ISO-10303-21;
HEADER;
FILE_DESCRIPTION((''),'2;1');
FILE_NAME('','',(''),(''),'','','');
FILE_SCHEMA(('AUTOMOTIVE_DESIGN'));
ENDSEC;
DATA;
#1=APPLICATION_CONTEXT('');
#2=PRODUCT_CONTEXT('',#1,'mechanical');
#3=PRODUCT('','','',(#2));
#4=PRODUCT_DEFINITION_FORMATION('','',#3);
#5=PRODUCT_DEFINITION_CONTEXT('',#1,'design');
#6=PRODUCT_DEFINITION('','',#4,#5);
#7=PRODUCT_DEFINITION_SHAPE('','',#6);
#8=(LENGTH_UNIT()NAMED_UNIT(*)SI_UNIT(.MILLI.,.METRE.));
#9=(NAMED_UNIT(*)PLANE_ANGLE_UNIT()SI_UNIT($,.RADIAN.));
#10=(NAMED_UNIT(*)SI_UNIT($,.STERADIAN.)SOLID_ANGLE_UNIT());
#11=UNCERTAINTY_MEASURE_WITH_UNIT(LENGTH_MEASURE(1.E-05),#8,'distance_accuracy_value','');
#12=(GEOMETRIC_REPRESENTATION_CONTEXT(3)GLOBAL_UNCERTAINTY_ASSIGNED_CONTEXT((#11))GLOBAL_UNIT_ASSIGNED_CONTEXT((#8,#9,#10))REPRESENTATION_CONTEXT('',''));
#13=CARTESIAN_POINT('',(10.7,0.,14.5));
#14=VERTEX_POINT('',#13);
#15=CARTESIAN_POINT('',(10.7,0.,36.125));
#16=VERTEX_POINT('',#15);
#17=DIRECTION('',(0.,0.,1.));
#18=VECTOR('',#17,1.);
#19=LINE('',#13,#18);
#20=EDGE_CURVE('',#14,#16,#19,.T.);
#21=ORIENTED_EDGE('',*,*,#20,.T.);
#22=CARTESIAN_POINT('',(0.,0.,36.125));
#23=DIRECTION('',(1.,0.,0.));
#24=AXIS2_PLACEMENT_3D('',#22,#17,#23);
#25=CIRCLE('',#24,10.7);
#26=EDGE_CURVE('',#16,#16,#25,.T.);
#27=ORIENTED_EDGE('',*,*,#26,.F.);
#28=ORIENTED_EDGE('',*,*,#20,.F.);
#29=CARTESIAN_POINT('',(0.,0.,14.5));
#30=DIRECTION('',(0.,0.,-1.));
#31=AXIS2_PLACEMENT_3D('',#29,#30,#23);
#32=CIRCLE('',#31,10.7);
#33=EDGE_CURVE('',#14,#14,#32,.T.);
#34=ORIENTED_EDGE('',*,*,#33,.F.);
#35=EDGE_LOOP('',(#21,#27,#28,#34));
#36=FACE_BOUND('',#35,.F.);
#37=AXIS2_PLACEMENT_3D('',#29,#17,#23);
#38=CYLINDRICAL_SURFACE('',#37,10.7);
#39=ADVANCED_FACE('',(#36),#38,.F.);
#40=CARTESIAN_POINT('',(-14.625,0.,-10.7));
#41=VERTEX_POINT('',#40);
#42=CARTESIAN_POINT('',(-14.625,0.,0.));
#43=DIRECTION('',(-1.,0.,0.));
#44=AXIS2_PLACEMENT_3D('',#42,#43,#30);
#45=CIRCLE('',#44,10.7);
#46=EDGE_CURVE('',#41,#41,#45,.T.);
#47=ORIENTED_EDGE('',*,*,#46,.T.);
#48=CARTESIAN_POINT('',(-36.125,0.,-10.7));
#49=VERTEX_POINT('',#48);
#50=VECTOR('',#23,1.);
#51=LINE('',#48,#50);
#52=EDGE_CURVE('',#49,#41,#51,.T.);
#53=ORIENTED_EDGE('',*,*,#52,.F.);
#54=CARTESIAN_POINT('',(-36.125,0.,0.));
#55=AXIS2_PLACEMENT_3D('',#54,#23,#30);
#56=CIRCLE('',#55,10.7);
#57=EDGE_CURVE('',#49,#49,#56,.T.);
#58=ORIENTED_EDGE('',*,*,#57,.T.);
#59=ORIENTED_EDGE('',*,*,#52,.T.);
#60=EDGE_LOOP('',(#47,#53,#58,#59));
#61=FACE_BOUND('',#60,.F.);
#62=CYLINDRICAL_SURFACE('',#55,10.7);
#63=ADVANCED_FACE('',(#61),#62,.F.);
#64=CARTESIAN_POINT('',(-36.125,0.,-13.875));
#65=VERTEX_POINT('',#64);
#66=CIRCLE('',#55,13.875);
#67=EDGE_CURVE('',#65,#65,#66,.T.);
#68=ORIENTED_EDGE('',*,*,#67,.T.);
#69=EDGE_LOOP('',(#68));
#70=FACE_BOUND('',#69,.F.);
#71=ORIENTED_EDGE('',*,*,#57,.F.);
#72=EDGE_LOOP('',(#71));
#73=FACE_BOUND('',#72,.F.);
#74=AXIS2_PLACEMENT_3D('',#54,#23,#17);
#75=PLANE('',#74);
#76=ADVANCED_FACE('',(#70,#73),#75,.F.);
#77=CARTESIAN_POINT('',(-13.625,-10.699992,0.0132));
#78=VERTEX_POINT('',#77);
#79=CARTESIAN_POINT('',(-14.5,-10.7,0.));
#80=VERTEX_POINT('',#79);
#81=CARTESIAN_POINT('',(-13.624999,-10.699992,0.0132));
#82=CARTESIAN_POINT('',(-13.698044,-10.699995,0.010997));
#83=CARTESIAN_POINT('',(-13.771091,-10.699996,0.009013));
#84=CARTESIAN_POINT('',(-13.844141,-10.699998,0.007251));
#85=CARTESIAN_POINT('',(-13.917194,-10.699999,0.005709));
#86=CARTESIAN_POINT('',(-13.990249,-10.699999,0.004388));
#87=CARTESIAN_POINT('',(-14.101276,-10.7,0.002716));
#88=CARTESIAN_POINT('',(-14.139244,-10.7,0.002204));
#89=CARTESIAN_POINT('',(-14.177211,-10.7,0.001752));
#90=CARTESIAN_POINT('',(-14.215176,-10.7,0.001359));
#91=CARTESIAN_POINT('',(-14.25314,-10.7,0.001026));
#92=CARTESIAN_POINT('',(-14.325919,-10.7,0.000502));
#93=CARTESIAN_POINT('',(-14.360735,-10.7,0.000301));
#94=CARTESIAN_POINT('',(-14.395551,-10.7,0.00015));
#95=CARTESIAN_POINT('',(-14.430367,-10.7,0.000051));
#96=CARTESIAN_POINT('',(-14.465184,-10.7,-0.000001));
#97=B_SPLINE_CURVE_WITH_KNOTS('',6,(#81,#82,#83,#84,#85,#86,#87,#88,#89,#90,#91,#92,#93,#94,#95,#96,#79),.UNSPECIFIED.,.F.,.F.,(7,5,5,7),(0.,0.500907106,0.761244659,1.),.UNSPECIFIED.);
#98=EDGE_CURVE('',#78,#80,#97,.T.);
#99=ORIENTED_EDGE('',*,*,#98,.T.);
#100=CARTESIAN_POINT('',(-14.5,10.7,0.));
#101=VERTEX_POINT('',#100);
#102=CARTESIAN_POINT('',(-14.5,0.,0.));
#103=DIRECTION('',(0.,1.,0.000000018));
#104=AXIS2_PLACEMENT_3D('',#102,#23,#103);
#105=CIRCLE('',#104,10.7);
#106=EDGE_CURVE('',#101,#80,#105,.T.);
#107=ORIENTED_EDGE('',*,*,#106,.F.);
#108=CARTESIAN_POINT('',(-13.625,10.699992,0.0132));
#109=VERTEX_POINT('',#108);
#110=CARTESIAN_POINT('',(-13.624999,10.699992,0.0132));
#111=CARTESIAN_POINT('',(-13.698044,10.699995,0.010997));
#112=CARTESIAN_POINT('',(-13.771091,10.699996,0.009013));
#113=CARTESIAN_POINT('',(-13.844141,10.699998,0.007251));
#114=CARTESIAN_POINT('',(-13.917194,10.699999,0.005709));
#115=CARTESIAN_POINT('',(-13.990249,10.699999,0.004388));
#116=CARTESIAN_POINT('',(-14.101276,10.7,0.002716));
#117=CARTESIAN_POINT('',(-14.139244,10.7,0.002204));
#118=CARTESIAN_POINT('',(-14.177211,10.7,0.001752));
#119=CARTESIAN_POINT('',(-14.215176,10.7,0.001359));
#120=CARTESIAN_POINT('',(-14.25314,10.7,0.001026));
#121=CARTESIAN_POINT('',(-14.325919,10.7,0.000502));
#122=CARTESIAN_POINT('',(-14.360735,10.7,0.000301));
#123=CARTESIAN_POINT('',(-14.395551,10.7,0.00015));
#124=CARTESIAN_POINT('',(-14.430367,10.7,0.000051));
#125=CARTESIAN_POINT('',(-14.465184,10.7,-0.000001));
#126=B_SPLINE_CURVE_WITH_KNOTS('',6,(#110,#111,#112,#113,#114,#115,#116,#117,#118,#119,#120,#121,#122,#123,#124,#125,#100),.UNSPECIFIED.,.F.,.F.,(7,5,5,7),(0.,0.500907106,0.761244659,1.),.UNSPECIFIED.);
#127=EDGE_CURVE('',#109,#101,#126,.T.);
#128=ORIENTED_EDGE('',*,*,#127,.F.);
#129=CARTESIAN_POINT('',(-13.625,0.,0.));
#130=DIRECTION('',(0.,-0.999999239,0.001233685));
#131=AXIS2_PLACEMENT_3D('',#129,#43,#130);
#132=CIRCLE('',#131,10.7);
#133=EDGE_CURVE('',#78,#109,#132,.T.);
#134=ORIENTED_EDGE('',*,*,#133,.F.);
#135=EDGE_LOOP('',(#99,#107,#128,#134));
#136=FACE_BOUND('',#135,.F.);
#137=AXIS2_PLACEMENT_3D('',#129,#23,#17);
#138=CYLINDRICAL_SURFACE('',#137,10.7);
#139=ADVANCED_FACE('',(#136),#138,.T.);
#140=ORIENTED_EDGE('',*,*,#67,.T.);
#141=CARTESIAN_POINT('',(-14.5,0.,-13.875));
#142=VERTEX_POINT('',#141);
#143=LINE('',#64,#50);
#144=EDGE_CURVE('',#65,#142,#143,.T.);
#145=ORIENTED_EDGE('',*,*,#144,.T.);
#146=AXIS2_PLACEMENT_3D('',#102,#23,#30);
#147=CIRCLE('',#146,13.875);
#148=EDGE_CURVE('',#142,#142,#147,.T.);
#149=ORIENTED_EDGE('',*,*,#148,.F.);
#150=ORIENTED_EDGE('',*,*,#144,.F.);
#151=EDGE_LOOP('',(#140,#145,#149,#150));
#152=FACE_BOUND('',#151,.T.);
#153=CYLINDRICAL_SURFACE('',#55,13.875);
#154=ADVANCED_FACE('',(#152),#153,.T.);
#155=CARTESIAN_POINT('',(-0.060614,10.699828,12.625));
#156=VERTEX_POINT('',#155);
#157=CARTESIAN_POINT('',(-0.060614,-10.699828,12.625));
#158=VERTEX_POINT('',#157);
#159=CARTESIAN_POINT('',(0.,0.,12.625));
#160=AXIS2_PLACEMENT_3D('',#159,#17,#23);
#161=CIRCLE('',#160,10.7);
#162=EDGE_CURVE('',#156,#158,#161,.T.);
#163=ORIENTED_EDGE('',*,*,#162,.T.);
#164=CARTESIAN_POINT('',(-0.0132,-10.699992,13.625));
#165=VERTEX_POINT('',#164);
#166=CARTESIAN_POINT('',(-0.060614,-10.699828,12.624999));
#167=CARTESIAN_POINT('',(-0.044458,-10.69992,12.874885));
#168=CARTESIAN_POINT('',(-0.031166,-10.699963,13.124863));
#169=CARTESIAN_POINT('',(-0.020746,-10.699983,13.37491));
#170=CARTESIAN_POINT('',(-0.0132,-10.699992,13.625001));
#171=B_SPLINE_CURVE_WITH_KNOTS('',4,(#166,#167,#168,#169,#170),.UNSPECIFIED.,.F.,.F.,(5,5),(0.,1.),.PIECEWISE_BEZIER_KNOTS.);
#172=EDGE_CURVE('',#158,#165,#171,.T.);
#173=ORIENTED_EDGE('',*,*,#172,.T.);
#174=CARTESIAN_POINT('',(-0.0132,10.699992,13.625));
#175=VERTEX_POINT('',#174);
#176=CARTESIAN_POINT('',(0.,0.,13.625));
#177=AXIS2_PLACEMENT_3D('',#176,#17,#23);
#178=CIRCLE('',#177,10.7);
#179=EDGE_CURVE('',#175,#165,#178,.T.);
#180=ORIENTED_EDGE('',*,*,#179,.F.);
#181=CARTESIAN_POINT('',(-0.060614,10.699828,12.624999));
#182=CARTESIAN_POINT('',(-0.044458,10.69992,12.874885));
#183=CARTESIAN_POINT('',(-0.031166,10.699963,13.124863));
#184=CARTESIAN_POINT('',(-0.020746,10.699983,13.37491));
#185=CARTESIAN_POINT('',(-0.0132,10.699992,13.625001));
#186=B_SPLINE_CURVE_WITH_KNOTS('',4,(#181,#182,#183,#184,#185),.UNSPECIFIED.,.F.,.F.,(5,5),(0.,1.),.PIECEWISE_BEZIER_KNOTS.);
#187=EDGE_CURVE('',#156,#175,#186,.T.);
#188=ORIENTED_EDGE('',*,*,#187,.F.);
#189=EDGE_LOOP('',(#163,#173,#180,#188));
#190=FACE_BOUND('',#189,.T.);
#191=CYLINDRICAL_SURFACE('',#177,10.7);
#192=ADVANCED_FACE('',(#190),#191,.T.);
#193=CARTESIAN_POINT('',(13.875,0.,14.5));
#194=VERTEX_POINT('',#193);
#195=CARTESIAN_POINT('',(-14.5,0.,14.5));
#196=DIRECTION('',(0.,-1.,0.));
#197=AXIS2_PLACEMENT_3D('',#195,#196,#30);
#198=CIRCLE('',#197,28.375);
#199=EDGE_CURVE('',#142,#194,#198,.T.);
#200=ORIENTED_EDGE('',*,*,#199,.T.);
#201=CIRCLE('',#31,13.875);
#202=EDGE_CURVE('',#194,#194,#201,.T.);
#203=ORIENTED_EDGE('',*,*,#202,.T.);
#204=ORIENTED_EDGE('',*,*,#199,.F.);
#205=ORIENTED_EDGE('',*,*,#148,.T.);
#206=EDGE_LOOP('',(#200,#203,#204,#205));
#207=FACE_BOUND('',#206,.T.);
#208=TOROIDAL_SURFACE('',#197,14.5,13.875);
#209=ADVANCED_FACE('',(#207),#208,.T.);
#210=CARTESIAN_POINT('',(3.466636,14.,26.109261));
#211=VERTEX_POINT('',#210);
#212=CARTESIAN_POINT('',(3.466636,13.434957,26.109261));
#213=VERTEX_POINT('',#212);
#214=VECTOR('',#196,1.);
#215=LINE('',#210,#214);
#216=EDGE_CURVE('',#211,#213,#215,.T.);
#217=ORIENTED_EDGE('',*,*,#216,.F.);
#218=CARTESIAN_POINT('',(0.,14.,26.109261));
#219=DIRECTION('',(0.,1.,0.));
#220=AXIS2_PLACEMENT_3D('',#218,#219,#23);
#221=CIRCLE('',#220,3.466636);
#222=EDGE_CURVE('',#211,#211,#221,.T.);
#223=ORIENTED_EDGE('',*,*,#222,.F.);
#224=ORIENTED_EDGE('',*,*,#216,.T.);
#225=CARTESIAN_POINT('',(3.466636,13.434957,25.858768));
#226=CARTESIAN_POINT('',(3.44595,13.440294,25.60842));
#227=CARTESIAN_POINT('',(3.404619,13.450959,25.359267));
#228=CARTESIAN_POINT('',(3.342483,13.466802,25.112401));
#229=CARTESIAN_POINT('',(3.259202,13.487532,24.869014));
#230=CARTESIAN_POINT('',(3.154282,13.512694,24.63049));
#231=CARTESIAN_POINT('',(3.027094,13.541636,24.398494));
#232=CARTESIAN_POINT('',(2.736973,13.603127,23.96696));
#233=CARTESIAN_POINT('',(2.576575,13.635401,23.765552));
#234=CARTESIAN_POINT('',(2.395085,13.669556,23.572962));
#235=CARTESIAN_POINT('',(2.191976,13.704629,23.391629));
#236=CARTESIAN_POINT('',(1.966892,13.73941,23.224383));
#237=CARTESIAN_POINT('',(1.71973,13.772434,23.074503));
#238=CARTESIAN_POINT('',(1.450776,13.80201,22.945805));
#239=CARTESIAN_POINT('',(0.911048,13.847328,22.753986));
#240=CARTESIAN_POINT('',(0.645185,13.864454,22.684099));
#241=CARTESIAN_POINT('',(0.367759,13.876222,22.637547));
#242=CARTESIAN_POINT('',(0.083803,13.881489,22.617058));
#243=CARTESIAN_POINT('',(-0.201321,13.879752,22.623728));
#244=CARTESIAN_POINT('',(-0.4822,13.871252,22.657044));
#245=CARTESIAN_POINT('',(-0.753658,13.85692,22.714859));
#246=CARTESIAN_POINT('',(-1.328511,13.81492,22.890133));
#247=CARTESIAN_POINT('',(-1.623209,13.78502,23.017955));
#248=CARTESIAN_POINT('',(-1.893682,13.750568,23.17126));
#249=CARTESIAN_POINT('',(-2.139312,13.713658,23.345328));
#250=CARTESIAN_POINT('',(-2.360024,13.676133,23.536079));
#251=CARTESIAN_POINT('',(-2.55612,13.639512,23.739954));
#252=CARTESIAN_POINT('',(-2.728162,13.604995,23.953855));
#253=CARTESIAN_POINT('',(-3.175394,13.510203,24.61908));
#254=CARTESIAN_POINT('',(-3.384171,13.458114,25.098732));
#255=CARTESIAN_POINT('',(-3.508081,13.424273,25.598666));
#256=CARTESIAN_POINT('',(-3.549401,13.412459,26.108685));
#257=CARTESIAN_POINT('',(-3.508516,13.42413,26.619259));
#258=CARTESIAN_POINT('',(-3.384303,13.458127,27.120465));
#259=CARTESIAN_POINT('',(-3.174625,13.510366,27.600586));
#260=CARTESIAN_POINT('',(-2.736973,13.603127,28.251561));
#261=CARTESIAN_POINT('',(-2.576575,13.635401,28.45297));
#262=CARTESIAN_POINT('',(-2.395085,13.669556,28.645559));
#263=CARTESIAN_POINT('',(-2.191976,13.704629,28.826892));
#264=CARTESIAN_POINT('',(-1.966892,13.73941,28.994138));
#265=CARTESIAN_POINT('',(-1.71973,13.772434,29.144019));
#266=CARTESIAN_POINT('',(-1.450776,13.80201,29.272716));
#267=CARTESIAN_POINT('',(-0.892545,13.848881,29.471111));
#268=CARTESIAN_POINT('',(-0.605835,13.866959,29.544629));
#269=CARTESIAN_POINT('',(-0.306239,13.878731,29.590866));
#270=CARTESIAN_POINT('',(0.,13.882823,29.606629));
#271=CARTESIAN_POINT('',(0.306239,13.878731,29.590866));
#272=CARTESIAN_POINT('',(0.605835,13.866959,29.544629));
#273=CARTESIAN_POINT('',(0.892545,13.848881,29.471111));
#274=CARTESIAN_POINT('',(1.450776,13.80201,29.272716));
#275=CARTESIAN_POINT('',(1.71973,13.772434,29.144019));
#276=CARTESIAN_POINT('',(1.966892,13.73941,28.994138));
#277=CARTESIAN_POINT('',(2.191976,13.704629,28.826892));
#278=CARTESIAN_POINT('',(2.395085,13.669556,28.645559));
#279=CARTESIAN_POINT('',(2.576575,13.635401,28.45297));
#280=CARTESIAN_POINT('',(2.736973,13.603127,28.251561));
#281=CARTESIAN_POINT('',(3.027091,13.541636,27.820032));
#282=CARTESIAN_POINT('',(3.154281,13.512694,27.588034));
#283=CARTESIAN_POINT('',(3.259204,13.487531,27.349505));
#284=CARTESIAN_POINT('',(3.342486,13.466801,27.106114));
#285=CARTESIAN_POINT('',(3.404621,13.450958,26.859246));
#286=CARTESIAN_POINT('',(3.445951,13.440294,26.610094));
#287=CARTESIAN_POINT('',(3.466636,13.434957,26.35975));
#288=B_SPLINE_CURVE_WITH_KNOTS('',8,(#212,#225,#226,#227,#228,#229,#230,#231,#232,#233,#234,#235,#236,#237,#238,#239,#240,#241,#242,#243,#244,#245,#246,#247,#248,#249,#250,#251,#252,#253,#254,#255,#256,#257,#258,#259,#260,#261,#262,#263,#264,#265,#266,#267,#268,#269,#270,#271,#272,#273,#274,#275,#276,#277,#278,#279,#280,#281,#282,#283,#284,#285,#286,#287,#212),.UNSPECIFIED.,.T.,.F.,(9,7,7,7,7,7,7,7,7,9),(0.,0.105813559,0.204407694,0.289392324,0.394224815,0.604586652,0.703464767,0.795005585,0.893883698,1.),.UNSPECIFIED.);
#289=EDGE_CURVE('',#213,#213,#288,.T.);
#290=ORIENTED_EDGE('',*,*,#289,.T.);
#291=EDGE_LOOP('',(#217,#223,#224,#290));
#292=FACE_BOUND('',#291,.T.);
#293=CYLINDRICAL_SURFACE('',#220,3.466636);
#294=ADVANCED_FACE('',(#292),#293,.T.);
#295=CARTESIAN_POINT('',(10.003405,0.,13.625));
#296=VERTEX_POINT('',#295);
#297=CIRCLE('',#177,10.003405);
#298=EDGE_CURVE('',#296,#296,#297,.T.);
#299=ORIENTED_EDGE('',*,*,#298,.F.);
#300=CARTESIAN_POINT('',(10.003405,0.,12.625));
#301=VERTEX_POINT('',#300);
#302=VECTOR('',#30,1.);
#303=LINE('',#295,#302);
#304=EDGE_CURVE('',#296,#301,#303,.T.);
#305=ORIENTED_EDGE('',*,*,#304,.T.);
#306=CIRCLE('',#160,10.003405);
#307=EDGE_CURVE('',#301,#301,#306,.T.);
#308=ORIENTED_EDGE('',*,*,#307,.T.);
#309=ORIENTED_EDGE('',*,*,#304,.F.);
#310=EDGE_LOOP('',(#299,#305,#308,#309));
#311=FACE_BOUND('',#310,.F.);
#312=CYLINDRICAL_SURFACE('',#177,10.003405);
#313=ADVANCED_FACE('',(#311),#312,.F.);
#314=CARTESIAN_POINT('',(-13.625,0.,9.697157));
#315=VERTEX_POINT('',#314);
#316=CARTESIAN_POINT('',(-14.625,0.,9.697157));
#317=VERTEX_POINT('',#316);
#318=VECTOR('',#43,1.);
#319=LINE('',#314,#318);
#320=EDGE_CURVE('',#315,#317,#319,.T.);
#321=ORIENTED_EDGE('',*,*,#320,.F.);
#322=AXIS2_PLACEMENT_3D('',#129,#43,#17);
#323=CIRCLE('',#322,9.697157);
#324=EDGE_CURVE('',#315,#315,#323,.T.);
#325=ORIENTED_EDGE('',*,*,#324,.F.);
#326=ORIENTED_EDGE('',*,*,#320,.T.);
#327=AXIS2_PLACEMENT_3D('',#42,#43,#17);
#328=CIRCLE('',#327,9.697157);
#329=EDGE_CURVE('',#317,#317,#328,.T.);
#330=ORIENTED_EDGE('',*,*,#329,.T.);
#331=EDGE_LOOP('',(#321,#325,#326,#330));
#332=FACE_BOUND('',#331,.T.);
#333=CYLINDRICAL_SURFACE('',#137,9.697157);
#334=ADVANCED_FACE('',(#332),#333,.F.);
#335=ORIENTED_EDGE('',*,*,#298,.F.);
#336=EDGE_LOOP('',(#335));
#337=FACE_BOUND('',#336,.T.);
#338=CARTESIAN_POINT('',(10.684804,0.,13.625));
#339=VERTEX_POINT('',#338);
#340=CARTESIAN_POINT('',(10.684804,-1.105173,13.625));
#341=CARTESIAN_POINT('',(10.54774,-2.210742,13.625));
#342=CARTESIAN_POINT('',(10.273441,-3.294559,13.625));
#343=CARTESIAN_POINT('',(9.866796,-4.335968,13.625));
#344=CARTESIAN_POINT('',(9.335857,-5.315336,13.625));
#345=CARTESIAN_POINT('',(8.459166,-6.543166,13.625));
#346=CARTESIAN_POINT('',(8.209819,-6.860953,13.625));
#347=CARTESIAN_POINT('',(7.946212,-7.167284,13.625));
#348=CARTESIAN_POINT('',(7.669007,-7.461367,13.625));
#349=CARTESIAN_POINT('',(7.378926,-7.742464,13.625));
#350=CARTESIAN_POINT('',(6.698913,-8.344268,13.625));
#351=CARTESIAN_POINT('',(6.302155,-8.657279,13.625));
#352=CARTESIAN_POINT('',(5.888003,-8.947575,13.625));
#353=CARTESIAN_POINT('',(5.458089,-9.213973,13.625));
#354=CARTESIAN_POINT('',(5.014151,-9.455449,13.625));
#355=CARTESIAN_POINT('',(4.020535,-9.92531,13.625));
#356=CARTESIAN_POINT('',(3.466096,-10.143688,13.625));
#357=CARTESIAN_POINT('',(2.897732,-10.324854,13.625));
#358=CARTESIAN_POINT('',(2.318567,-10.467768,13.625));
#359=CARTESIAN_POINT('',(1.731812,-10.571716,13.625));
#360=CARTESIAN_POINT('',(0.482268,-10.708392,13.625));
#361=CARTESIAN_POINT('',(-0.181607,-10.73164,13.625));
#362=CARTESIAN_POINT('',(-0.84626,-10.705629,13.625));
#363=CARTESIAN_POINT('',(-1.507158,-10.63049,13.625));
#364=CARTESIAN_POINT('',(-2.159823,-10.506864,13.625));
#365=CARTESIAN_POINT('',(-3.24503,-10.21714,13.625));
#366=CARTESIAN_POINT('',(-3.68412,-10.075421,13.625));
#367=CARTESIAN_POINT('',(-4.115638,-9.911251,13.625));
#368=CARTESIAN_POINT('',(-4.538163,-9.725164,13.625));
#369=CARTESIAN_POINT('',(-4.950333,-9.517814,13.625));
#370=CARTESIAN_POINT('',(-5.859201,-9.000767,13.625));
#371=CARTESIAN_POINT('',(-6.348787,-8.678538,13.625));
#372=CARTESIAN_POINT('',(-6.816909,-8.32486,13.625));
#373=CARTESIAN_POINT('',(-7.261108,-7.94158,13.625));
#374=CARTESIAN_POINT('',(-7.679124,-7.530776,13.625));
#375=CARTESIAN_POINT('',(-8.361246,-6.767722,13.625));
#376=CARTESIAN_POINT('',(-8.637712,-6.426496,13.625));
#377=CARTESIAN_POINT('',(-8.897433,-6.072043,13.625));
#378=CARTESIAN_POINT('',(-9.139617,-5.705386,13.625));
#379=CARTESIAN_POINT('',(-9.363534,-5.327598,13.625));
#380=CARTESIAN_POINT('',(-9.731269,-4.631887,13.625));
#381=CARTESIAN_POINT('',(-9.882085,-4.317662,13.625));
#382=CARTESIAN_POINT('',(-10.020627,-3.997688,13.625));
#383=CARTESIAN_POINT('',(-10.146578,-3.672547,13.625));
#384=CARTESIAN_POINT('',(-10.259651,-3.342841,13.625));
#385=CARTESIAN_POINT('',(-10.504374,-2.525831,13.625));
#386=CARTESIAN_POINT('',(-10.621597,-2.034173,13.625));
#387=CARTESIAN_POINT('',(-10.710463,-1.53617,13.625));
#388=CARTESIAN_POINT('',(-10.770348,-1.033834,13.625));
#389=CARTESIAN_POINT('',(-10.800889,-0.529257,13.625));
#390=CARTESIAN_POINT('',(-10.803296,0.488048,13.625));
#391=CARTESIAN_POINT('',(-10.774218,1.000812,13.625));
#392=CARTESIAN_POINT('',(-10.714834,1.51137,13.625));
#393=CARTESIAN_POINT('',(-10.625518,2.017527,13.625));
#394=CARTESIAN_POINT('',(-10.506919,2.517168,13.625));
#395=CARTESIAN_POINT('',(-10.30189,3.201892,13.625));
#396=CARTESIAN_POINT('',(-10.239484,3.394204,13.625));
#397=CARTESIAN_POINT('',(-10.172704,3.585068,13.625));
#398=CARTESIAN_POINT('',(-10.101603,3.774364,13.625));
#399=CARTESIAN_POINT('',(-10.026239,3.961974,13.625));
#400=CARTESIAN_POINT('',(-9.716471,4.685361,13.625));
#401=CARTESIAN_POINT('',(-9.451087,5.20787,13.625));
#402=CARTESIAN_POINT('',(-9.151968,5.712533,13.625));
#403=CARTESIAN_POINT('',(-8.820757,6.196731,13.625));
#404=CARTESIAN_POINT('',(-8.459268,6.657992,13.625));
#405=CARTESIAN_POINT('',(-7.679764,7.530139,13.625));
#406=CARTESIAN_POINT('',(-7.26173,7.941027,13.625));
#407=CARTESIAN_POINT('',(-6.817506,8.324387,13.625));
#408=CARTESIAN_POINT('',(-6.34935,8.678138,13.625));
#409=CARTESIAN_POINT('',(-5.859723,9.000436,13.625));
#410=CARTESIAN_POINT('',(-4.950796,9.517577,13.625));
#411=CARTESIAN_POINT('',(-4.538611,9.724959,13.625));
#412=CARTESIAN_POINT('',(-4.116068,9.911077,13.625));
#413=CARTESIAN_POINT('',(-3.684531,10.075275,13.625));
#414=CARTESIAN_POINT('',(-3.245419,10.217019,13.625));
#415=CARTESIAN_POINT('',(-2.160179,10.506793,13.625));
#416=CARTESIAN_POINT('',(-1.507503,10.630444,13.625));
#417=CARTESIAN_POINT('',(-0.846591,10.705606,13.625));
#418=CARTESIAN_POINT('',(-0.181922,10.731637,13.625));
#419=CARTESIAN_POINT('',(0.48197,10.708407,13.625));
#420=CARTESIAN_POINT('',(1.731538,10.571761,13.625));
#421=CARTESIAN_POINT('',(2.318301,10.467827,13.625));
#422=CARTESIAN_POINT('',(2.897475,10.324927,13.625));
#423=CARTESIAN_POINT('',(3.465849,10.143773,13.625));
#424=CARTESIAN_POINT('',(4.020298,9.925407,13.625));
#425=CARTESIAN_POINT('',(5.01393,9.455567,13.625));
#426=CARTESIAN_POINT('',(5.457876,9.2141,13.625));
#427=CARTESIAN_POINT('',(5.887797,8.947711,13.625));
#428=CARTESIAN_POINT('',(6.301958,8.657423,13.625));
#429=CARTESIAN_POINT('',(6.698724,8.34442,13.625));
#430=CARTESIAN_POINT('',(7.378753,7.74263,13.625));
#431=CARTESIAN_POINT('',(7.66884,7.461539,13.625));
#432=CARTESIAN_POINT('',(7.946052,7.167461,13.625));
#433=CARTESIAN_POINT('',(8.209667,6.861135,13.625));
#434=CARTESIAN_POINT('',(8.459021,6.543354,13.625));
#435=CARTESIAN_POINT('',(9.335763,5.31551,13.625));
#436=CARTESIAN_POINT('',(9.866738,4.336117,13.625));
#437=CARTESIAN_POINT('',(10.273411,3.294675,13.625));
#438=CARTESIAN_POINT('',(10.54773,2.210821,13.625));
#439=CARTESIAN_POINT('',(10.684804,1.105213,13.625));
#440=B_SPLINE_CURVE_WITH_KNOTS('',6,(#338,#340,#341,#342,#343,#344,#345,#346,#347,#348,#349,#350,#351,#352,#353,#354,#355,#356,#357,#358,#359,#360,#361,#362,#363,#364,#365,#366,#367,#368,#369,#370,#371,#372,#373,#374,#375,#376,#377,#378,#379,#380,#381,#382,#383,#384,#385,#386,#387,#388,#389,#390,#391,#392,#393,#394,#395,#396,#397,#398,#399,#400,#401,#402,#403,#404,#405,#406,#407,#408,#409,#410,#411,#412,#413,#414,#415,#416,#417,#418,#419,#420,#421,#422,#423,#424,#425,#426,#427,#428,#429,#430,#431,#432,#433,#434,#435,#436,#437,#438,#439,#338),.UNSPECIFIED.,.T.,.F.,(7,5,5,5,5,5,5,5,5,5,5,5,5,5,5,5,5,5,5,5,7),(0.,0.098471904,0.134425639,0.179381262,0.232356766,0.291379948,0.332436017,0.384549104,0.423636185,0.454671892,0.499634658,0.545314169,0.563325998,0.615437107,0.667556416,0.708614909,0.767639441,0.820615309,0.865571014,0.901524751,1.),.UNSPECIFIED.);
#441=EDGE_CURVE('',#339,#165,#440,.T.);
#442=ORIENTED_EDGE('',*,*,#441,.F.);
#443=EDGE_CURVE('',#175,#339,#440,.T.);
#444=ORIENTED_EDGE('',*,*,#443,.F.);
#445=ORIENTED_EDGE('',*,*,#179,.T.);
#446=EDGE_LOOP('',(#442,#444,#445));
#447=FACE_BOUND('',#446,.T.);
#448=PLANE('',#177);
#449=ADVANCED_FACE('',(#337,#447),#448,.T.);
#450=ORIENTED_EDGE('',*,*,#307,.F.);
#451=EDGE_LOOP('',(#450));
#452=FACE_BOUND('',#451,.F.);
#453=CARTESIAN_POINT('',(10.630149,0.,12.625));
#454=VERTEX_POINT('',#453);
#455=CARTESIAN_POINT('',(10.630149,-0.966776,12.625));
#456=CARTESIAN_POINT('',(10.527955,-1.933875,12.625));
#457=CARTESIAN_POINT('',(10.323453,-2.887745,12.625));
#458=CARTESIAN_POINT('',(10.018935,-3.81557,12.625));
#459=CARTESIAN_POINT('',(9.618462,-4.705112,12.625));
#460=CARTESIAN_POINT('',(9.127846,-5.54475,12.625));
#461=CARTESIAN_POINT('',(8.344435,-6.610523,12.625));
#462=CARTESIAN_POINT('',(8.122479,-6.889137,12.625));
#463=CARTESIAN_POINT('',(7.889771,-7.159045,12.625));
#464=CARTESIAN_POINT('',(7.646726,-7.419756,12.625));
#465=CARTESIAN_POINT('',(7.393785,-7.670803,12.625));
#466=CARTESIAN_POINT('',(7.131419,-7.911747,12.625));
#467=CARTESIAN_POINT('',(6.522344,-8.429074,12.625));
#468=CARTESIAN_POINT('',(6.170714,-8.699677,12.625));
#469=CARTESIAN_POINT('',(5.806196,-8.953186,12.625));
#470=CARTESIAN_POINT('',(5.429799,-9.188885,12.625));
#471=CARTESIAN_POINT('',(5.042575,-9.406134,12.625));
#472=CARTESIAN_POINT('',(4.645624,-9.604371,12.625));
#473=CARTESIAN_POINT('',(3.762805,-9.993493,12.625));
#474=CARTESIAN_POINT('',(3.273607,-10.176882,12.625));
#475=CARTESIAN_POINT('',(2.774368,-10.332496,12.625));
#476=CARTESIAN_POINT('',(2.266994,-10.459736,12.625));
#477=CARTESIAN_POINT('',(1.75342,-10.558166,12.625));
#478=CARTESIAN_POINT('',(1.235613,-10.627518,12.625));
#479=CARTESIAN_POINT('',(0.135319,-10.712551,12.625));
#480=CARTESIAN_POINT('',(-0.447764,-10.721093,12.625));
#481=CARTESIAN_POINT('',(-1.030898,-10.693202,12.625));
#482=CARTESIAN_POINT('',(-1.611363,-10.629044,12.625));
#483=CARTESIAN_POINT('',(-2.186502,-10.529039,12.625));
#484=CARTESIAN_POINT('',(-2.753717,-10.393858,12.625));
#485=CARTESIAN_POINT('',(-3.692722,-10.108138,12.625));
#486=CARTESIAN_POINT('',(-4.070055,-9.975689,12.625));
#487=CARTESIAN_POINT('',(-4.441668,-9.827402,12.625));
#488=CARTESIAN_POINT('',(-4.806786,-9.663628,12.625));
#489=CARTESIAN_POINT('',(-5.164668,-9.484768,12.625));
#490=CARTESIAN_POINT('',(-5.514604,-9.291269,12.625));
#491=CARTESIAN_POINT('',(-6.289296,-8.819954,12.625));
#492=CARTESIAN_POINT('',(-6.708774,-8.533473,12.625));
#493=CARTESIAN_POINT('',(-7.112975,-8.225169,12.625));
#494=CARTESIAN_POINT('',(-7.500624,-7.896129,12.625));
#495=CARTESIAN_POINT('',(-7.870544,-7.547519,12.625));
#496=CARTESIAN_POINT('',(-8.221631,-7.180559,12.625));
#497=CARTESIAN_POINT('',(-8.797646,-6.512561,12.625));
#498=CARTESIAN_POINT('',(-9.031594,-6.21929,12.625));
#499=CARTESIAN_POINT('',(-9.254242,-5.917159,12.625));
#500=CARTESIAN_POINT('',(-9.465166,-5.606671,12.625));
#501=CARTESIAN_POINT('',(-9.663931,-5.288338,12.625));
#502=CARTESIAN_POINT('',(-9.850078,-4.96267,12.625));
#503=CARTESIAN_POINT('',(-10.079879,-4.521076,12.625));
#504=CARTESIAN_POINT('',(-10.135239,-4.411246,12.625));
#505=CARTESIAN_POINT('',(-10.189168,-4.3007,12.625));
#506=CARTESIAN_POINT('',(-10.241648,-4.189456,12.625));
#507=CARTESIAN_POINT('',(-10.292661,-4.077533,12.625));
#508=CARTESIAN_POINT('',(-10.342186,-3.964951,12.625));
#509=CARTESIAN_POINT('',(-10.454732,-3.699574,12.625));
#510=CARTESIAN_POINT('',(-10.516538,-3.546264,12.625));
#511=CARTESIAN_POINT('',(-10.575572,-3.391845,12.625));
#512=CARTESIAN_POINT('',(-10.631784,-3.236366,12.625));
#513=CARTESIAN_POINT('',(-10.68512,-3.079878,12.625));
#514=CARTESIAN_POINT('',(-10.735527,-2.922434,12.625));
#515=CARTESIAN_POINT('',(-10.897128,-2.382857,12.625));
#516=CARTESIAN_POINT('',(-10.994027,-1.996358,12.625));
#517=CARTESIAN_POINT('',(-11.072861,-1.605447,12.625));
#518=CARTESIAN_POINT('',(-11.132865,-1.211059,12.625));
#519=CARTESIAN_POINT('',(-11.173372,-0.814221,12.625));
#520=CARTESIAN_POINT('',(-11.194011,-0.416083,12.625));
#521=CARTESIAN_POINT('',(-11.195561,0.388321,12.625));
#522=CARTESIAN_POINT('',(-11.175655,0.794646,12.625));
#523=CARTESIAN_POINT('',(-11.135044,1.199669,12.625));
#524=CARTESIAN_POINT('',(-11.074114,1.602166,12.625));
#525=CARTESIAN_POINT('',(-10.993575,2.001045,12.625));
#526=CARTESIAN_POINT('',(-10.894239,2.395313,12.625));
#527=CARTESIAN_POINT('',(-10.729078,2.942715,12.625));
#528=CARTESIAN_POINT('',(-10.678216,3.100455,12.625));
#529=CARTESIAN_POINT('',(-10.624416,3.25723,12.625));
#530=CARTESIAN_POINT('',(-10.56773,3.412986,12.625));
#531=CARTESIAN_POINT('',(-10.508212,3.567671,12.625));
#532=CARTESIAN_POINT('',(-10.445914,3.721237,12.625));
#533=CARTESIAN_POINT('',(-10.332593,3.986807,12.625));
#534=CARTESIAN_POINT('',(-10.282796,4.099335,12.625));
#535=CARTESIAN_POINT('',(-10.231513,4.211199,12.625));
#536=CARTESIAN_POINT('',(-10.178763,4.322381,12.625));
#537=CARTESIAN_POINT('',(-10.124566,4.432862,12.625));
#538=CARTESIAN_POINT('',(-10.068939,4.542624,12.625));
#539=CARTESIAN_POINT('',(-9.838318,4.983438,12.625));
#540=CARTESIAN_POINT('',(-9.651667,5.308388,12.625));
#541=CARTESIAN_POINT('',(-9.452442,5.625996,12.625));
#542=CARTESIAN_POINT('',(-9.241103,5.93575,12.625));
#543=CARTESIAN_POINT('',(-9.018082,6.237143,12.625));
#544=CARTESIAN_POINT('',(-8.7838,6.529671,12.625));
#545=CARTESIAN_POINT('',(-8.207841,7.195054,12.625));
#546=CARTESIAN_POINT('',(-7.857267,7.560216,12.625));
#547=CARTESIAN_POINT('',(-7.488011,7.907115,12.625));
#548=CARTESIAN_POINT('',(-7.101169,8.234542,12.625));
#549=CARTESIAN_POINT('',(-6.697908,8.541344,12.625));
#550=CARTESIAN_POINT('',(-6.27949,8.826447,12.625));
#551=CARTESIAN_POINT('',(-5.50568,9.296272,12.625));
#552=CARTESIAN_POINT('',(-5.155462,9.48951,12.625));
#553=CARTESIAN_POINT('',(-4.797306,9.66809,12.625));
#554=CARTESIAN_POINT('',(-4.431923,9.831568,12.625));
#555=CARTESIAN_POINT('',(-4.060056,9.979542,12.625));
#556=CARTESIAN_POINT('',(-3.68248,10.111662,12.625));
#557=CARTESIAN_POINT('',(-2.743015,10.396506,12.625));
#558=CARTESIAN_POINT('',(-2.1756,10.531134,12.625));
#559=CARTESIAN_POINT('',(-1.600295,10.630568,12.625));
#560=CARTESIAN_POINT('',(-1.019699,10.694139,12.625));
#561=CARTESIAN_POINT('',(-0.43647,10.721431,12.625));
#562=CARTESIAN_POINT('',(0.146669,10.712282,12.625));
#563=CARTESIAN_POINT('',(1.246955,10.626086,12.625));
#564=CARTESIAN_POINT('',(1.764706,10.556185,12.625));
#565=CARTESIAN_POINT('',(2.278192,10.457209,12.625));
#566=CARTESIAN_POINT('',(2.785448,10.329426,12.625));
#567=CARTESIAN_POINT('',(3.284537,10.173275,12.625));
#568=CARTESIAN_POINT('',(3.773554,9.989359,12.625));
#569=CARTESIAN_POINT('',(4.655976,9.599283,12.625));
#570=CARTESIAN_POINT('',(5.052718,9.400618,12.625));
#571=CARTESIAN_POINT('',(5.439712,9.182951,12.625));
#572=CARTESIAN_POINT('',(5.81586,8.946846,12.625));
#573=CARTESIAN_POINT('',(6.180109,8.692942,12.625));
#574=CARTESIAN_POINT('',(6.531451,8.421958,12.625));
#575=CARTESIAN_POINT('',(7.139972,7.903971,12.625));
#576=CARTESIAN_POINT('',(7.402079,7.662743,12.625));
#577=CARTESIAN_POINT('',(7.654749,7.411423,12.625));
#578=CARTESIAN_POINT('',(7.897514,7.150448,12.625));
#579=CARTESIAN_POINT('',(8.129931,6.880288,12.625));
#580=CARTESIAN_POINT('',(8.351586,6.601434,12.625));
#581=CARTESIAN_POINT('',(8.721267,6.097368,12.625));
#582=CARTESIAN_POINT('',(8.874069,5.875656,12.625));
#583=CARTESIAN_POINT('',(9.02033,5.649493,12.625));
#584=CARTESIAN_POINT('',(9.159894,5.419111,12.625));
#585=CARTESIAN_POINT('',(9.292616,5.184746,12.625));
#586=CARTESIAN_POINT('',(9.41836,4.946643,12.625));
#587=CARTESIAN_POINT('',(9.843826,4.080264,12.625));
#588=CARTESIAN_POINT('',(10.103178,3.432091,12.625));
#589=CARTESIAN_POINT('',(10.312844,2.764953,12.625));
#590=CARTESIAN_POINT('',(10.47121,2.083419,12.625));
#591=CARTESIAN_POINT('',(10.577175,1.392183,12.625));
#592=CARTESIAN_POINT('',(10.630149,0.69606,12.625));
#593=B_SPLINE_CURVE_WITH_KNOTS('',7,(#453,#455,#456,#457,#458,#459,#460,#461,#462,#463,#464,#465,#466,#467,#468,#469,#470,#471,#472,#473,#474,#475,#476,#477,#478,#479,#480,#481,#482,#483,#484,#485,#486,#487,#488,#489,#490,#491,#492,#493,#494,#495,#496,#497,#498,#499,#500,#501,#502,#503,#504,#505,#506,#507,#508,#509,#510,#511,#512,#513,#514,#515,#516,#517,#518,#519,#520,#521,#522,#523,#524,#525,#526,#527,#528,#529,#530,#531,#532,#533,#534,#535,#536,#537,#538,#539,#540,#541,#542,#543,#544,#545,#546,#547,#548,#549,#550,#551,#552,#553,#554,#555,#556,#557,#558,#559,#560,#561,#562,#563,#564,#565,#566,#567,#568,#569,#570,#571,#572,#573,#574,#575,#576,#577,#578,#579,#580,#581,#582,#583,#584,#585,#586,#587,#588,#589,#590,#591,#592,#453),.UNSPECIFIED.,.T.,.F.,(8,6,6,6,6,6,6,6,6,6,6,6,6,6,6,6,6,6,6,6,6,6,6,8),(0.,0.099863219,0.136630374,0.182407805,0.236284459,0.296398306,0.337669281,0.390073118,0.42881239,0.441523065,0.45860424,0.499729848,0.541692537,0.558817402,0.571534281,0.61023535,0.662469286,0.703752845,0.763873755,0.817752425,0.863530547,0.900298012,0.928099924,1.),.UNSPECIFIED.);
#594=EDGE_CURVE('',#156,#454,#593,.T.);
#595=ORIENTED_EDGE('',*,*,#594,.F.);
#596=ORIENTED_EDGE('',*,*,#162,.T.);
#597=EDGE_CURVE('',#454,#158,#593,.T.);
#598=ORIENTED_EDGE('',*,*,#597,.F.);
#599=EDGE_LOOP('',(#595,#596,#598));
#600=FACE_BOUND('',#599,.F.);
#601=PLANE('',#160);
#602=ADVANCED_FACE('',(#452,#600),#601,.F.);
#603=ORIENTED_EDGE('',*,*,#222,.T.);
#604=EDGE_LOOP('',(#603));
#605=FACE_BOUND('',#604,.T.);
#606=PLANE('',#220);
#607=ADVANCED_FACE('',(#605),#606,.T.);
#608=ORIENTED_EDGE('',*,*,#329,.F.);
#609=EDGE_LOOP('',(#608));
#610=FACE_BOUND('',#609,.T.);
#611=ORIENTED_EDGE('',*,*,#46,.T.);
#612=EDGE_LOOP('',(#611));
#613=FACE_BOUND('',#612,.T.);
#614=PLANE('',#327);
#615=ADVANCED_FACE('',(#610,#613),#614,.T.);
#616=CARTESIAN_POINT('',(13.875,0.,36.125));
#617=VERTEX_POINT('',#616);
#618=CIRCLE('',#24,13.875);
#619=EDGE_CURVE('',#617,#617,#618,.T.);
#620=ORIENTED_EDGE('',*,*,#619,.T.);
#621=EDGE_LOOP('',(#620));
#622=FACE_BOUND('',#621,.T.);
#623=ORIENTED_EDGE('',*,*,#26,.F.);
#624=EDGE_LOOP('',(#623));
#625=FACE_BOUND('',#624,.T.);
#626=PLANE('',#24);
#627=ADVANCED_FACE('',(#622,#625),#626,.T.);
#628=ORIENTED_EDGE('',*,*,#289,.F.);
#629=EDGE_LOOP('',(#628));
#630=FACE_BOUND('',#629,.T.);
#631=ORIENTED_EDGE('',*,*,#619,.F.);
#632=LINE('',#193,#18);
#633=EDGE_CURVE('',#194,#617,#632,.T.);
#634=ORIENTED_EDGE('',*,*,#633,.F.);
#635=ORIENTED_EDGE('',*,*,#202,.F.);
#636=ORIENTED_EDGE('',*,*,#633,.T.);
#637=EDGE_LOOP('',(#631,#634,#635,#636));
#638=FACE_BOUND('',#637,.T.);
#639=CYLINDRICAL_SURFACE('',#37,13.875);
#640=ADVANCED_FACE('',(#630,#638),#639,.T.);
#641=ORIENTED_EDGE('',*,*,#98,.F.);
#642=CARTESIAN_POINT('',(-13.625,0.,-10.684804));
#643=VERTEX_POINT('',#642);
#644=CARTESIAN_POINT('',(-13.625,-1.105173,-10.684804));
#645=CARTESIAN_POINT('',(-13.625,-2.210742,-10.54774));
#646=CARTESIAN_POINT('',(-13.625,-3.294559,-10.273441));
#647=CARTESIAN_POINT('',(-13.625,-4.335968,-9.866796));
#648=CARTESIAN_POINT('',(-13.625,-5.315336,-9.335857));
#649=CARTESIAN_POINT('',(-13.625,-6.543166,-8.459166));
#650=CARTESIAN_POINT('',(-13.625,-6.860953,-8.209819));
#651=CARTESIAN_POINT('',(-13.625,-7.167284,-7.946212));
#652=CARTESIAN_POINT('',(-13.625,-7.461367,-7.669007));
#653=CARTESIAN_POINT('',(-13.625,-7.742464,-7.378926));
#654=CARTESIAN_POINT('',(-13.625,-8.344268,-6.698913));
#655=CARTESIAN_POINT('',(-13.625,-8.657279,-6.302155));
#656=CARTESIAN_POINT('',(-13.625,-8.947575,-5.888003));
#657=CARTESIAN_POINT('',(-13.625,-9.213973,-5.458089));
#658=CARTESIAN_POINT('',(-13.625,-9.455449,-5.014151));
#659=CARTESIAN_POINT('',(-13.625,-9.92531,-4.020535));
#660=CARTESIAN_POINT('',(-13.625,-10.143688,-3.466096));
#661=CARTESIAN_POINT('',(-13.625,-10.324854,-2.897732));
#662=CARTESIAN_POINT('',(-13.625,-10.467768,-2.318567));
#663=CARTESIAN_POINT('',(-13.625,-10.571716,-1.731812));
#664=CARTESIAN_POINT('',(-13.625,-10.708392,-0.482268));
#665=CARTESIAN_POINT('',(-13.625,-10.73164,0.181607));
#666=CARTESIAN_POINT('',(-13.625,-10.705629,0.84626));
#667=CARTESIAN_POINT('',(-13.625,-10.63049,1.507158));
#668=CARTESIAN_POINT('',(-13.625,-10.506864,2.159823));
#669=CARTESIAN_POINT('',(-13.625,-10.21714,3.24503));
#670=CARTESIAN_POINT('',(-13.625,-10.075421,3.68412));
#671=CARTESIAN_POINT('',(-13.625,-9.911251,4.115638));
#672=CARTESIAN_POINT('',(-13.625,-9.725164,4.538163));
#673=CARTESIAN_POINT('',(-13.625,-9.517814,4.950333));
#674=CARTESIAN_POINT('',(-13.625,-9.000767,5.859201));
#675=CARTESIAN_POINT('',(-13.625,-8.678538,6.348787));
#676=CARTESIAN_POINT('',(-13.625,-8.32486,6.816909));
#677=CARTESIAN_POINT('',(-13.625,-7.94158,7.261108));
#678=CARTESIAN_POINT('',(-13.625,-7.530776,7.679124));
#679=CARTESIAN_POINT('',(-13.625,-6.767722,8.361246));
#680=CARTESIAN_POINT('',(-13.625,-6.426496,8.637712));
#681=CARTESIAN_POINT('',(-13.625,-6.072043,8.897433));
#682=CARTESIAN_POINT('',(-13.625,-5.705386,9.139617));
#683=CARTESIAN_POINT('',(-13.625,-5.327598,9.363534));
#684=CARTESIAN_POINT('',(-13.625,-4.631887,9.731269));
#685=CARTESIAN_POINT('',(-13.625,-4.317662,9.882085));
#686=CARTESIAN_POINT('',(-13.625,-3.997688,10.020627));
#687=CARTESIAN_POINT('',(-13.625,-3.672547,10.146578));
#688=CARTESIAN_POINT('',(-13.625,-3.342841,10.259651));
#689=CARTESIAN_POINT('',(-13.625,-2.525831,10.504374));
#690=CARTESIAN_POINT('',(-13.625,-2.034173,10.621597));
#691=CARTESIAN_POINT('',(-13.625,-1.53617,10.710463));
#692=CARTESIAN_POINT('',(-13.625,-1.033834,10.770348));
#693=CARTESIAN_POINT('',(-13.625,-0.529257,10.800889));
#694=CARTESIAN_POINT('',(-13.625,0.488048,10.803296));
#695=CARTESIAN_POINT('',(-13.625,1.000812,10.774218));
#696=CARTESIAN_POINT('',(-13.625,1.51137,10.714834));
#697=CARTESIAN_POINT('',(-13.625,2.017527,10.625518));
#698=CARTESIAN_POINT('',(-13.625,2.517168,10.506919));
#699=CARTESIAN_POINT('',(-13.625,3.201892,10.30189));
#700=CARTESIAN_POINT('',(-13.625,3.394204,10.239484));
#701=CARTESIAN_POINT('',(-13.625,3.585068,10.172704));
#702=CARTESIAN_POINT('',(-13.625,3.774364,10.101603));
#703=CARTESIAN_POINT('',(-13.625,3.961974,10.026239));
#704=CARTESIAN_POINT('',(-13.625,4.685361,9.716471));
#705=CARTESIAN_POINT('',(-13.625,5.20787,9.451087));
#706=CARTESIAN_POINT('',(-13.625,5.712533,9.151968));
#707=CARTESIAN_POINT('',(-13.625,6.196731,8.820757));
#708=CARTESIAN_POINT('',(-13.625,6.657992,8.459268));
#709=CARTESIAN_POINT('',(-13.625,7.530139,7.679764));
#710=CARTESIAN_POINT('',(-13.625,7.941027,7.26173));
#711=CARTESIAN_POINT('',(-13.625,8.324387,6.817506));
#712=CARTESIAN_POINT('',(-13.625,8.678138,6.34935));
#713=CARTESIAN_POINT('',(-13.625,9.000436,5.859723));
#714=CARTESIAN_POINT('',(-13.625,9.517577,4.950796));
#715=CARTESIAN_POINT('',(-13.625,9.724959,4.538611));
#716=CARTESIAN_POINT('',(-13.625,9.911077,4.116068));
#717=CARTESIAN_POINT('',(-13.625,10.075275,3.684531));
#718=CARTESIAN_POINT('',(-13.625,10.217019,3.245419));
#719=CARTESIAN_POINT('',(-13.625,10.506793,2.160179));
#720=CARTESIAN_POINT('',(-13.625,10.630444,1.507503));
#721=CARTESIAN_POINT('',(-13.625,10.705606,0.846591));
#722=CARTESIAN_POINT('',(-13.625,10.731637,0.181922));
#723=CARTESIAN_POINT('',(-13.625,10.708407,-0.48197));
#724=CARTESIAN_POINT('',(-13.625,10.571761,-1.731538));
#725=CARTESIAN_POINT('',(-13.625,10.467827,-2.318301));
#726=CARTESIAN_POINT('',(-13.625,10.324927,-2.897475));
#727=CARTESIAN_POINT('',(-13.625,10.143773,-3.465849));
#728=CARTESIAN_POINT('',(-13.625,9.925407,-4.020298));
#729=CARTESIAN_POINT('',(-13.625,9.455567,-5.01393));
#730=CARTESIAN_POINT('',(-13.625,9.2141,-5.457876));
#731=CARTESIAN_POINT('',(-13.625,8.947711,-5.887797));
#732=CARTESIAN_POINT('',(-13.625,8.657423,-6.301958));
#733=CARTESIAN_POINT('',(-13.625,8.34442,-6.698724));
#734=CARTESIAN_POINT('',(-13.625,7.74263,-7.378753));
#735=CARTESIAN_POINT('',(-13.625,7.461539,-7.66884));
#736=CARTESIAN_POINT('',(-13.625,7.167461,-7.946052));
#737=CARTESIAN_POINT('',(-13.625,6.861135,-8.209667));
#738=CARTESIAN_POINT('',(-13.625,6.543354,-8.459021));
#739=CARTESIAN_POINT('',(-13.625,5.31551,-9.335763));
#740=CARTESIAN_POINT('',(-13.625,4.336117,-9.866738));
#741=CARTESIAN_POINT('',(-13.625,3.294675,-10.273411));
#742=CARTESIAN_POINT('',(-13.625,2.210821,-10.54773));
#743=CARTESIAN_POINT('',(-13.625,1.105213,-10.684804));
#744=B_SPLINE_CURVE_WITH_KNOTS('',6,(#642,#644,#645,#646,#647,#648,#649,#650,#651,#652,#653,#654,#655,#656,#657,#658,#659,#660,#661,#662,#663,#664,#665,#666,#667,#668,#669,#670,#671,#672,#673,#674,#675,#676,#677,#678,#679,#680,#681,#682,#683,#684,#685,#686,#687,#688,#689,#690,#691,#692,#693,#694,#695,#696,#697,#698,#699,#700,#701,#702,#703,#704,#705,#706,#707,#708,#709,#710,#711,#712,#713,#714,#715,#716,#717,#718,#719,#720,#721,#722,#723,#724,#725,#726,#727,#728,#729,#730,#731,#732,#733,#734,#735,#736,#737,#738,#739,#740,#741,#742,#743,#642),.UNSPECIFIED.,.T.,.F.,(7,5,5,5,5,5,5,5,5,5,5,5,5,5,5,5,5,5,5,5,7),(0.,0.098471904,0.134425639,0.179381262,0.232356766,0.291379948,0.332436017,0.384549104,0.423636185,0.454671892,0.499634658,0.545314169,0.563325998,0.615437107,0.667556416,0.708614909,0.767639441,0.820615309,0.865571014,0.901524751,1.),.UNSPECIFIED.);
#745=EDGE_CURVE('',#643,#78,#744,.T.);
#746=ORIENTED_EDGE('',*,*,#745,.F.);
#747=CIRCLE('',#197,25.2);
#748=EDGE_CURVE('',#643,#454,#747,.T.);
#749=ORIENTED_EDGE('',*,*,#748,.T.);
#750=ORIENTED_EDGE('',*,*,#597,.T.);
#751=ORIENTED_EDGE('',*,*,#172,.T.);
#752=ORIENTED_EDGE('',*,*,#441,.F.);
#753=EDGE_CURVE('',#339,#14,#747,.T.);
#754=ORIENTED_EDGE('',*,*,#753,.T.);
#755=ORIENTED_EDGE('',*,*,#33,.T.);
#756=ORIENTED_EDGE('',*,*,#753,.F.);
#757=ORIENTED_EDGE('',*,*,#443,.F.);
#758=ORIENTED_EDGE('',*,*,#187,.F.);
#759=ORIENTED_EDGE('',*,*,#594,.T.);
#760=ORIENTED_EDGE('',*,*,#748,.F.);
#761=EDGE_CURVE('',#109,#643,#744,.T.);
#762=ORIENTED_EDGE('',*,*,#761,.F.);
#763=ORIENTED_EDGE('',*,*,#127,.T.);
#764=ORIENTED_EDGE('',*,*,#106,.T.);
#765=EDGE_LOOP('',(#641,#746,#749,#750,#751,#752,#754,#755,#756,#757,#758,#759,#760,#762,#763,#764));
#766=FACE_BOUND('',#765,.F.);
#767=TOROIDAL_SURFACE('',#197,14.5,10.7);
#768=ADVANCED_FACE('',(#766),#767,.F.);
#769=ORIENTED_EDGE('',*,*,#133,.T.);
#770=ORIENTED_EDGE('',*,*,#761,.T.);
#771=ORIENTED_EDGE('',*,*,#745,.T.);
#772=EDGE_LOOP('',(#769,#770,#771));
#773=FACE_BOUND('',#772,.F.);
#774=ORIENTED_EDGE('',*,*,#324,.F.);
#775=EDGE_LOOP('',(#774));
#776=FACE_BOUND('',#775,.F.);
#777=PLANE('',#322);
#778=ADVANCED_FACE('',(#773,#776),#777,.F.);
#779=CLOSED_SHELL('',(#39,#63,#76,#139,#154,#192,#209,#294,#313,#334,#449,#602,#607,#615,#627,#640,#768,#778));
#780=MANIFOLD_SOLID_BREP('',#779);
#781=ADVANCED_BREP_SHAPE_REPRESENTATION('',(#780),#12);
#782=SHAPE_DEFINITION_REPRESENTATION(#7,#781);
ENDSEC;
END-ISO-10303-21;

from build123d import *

# Parameters (mm, degrees)
CROQUIS2_R              = 13.875
CROQUIS2_R_2            = 10.7
SALIENTE_EXTRUIR1_START = -22.5
CROQUIS3_R              = 10.7
CROQUIS3_R_2            = 10.003405024
SALIENTE_EXTRUIR1_DEPTH = 1
SALIENTE_EXTRUIR2_START = -22.5
CROQUIS5_R              = 10.7
CROQUIS5_R_2            = 9.69715728
SALIENTE_EXTRUIR2_DEPTH = 1
SALIENTE_EXTRUIR3_START = 14
CROQUIS6_R              = 3.466635683
SALIENTE_EXTRUIR3_DEPTH = 1


with BuildPart() as part:
    # Barrer1: sweep along a path in Croquis1
    with BuildLine(Plane(origin=(0, 0, 0), x_dir=(1, 0, 0), z_dir=(0, 1, 0))) as barrer1_path:
        Line((-36.125, 0), (-14.5, 0))
        ThreePointArc((-14.5, 0), (-4.246951673, -4.246951673), (0, -14.5))
        Line((0, -14.5), (0, -36.125))
    # Croquis2 → Barrer1 (sweep)
    with BuildSketch(Plane.XY.offset(36.125)):
        Circle(CROQUIS2_R)
        Circle(CROQUIS2_R_2, mode=Mode.SUBTRACT)
    sweep(path=barrer1_path.line)

    # Croquis3 → Saliente-Extruir1 (add)
    with BuildSketch(Plane.XY.offset(36.125).offset(SALIENTE_EXTRUIR1_START)):
        Circle(CROQUIS3_R)
        Circle(CROQUIS3_R_2, mode=Mode.SUBTRACT)
    extrude(amount=-SALIENTE_EXTRUIR1_DEPTH)

    # Croquis5 → Saliente-Extruir2 (add)
    with BuildSketch(Plane.ZY.offset(36.125).offset(SALIENTE_EXTRUIR2_START)):
        Circle(CROQUIS5_R)
        Circle(CROQUIS5_R_2, mode=Mode.SUBTRACT)
    extrude(amount=SALIENTE_EXTRUIR2_DEPTH)

    # Croquis6 → Saliente-Extruir3 (add)
    with BuildSketch(Plane(origin=(0, 0, 0), x_dir=(1, 0, 0), z_dir=(0, 1, 0)).offset(SALIENTE_EXTRUIR3_START)):
        with Locations((0, -26.109260765)):
            Circle(CROQUIS6_R)
    extrude(amount=-SALIENTE_EXTRUIR3_DEPTH)


solid = part.part
